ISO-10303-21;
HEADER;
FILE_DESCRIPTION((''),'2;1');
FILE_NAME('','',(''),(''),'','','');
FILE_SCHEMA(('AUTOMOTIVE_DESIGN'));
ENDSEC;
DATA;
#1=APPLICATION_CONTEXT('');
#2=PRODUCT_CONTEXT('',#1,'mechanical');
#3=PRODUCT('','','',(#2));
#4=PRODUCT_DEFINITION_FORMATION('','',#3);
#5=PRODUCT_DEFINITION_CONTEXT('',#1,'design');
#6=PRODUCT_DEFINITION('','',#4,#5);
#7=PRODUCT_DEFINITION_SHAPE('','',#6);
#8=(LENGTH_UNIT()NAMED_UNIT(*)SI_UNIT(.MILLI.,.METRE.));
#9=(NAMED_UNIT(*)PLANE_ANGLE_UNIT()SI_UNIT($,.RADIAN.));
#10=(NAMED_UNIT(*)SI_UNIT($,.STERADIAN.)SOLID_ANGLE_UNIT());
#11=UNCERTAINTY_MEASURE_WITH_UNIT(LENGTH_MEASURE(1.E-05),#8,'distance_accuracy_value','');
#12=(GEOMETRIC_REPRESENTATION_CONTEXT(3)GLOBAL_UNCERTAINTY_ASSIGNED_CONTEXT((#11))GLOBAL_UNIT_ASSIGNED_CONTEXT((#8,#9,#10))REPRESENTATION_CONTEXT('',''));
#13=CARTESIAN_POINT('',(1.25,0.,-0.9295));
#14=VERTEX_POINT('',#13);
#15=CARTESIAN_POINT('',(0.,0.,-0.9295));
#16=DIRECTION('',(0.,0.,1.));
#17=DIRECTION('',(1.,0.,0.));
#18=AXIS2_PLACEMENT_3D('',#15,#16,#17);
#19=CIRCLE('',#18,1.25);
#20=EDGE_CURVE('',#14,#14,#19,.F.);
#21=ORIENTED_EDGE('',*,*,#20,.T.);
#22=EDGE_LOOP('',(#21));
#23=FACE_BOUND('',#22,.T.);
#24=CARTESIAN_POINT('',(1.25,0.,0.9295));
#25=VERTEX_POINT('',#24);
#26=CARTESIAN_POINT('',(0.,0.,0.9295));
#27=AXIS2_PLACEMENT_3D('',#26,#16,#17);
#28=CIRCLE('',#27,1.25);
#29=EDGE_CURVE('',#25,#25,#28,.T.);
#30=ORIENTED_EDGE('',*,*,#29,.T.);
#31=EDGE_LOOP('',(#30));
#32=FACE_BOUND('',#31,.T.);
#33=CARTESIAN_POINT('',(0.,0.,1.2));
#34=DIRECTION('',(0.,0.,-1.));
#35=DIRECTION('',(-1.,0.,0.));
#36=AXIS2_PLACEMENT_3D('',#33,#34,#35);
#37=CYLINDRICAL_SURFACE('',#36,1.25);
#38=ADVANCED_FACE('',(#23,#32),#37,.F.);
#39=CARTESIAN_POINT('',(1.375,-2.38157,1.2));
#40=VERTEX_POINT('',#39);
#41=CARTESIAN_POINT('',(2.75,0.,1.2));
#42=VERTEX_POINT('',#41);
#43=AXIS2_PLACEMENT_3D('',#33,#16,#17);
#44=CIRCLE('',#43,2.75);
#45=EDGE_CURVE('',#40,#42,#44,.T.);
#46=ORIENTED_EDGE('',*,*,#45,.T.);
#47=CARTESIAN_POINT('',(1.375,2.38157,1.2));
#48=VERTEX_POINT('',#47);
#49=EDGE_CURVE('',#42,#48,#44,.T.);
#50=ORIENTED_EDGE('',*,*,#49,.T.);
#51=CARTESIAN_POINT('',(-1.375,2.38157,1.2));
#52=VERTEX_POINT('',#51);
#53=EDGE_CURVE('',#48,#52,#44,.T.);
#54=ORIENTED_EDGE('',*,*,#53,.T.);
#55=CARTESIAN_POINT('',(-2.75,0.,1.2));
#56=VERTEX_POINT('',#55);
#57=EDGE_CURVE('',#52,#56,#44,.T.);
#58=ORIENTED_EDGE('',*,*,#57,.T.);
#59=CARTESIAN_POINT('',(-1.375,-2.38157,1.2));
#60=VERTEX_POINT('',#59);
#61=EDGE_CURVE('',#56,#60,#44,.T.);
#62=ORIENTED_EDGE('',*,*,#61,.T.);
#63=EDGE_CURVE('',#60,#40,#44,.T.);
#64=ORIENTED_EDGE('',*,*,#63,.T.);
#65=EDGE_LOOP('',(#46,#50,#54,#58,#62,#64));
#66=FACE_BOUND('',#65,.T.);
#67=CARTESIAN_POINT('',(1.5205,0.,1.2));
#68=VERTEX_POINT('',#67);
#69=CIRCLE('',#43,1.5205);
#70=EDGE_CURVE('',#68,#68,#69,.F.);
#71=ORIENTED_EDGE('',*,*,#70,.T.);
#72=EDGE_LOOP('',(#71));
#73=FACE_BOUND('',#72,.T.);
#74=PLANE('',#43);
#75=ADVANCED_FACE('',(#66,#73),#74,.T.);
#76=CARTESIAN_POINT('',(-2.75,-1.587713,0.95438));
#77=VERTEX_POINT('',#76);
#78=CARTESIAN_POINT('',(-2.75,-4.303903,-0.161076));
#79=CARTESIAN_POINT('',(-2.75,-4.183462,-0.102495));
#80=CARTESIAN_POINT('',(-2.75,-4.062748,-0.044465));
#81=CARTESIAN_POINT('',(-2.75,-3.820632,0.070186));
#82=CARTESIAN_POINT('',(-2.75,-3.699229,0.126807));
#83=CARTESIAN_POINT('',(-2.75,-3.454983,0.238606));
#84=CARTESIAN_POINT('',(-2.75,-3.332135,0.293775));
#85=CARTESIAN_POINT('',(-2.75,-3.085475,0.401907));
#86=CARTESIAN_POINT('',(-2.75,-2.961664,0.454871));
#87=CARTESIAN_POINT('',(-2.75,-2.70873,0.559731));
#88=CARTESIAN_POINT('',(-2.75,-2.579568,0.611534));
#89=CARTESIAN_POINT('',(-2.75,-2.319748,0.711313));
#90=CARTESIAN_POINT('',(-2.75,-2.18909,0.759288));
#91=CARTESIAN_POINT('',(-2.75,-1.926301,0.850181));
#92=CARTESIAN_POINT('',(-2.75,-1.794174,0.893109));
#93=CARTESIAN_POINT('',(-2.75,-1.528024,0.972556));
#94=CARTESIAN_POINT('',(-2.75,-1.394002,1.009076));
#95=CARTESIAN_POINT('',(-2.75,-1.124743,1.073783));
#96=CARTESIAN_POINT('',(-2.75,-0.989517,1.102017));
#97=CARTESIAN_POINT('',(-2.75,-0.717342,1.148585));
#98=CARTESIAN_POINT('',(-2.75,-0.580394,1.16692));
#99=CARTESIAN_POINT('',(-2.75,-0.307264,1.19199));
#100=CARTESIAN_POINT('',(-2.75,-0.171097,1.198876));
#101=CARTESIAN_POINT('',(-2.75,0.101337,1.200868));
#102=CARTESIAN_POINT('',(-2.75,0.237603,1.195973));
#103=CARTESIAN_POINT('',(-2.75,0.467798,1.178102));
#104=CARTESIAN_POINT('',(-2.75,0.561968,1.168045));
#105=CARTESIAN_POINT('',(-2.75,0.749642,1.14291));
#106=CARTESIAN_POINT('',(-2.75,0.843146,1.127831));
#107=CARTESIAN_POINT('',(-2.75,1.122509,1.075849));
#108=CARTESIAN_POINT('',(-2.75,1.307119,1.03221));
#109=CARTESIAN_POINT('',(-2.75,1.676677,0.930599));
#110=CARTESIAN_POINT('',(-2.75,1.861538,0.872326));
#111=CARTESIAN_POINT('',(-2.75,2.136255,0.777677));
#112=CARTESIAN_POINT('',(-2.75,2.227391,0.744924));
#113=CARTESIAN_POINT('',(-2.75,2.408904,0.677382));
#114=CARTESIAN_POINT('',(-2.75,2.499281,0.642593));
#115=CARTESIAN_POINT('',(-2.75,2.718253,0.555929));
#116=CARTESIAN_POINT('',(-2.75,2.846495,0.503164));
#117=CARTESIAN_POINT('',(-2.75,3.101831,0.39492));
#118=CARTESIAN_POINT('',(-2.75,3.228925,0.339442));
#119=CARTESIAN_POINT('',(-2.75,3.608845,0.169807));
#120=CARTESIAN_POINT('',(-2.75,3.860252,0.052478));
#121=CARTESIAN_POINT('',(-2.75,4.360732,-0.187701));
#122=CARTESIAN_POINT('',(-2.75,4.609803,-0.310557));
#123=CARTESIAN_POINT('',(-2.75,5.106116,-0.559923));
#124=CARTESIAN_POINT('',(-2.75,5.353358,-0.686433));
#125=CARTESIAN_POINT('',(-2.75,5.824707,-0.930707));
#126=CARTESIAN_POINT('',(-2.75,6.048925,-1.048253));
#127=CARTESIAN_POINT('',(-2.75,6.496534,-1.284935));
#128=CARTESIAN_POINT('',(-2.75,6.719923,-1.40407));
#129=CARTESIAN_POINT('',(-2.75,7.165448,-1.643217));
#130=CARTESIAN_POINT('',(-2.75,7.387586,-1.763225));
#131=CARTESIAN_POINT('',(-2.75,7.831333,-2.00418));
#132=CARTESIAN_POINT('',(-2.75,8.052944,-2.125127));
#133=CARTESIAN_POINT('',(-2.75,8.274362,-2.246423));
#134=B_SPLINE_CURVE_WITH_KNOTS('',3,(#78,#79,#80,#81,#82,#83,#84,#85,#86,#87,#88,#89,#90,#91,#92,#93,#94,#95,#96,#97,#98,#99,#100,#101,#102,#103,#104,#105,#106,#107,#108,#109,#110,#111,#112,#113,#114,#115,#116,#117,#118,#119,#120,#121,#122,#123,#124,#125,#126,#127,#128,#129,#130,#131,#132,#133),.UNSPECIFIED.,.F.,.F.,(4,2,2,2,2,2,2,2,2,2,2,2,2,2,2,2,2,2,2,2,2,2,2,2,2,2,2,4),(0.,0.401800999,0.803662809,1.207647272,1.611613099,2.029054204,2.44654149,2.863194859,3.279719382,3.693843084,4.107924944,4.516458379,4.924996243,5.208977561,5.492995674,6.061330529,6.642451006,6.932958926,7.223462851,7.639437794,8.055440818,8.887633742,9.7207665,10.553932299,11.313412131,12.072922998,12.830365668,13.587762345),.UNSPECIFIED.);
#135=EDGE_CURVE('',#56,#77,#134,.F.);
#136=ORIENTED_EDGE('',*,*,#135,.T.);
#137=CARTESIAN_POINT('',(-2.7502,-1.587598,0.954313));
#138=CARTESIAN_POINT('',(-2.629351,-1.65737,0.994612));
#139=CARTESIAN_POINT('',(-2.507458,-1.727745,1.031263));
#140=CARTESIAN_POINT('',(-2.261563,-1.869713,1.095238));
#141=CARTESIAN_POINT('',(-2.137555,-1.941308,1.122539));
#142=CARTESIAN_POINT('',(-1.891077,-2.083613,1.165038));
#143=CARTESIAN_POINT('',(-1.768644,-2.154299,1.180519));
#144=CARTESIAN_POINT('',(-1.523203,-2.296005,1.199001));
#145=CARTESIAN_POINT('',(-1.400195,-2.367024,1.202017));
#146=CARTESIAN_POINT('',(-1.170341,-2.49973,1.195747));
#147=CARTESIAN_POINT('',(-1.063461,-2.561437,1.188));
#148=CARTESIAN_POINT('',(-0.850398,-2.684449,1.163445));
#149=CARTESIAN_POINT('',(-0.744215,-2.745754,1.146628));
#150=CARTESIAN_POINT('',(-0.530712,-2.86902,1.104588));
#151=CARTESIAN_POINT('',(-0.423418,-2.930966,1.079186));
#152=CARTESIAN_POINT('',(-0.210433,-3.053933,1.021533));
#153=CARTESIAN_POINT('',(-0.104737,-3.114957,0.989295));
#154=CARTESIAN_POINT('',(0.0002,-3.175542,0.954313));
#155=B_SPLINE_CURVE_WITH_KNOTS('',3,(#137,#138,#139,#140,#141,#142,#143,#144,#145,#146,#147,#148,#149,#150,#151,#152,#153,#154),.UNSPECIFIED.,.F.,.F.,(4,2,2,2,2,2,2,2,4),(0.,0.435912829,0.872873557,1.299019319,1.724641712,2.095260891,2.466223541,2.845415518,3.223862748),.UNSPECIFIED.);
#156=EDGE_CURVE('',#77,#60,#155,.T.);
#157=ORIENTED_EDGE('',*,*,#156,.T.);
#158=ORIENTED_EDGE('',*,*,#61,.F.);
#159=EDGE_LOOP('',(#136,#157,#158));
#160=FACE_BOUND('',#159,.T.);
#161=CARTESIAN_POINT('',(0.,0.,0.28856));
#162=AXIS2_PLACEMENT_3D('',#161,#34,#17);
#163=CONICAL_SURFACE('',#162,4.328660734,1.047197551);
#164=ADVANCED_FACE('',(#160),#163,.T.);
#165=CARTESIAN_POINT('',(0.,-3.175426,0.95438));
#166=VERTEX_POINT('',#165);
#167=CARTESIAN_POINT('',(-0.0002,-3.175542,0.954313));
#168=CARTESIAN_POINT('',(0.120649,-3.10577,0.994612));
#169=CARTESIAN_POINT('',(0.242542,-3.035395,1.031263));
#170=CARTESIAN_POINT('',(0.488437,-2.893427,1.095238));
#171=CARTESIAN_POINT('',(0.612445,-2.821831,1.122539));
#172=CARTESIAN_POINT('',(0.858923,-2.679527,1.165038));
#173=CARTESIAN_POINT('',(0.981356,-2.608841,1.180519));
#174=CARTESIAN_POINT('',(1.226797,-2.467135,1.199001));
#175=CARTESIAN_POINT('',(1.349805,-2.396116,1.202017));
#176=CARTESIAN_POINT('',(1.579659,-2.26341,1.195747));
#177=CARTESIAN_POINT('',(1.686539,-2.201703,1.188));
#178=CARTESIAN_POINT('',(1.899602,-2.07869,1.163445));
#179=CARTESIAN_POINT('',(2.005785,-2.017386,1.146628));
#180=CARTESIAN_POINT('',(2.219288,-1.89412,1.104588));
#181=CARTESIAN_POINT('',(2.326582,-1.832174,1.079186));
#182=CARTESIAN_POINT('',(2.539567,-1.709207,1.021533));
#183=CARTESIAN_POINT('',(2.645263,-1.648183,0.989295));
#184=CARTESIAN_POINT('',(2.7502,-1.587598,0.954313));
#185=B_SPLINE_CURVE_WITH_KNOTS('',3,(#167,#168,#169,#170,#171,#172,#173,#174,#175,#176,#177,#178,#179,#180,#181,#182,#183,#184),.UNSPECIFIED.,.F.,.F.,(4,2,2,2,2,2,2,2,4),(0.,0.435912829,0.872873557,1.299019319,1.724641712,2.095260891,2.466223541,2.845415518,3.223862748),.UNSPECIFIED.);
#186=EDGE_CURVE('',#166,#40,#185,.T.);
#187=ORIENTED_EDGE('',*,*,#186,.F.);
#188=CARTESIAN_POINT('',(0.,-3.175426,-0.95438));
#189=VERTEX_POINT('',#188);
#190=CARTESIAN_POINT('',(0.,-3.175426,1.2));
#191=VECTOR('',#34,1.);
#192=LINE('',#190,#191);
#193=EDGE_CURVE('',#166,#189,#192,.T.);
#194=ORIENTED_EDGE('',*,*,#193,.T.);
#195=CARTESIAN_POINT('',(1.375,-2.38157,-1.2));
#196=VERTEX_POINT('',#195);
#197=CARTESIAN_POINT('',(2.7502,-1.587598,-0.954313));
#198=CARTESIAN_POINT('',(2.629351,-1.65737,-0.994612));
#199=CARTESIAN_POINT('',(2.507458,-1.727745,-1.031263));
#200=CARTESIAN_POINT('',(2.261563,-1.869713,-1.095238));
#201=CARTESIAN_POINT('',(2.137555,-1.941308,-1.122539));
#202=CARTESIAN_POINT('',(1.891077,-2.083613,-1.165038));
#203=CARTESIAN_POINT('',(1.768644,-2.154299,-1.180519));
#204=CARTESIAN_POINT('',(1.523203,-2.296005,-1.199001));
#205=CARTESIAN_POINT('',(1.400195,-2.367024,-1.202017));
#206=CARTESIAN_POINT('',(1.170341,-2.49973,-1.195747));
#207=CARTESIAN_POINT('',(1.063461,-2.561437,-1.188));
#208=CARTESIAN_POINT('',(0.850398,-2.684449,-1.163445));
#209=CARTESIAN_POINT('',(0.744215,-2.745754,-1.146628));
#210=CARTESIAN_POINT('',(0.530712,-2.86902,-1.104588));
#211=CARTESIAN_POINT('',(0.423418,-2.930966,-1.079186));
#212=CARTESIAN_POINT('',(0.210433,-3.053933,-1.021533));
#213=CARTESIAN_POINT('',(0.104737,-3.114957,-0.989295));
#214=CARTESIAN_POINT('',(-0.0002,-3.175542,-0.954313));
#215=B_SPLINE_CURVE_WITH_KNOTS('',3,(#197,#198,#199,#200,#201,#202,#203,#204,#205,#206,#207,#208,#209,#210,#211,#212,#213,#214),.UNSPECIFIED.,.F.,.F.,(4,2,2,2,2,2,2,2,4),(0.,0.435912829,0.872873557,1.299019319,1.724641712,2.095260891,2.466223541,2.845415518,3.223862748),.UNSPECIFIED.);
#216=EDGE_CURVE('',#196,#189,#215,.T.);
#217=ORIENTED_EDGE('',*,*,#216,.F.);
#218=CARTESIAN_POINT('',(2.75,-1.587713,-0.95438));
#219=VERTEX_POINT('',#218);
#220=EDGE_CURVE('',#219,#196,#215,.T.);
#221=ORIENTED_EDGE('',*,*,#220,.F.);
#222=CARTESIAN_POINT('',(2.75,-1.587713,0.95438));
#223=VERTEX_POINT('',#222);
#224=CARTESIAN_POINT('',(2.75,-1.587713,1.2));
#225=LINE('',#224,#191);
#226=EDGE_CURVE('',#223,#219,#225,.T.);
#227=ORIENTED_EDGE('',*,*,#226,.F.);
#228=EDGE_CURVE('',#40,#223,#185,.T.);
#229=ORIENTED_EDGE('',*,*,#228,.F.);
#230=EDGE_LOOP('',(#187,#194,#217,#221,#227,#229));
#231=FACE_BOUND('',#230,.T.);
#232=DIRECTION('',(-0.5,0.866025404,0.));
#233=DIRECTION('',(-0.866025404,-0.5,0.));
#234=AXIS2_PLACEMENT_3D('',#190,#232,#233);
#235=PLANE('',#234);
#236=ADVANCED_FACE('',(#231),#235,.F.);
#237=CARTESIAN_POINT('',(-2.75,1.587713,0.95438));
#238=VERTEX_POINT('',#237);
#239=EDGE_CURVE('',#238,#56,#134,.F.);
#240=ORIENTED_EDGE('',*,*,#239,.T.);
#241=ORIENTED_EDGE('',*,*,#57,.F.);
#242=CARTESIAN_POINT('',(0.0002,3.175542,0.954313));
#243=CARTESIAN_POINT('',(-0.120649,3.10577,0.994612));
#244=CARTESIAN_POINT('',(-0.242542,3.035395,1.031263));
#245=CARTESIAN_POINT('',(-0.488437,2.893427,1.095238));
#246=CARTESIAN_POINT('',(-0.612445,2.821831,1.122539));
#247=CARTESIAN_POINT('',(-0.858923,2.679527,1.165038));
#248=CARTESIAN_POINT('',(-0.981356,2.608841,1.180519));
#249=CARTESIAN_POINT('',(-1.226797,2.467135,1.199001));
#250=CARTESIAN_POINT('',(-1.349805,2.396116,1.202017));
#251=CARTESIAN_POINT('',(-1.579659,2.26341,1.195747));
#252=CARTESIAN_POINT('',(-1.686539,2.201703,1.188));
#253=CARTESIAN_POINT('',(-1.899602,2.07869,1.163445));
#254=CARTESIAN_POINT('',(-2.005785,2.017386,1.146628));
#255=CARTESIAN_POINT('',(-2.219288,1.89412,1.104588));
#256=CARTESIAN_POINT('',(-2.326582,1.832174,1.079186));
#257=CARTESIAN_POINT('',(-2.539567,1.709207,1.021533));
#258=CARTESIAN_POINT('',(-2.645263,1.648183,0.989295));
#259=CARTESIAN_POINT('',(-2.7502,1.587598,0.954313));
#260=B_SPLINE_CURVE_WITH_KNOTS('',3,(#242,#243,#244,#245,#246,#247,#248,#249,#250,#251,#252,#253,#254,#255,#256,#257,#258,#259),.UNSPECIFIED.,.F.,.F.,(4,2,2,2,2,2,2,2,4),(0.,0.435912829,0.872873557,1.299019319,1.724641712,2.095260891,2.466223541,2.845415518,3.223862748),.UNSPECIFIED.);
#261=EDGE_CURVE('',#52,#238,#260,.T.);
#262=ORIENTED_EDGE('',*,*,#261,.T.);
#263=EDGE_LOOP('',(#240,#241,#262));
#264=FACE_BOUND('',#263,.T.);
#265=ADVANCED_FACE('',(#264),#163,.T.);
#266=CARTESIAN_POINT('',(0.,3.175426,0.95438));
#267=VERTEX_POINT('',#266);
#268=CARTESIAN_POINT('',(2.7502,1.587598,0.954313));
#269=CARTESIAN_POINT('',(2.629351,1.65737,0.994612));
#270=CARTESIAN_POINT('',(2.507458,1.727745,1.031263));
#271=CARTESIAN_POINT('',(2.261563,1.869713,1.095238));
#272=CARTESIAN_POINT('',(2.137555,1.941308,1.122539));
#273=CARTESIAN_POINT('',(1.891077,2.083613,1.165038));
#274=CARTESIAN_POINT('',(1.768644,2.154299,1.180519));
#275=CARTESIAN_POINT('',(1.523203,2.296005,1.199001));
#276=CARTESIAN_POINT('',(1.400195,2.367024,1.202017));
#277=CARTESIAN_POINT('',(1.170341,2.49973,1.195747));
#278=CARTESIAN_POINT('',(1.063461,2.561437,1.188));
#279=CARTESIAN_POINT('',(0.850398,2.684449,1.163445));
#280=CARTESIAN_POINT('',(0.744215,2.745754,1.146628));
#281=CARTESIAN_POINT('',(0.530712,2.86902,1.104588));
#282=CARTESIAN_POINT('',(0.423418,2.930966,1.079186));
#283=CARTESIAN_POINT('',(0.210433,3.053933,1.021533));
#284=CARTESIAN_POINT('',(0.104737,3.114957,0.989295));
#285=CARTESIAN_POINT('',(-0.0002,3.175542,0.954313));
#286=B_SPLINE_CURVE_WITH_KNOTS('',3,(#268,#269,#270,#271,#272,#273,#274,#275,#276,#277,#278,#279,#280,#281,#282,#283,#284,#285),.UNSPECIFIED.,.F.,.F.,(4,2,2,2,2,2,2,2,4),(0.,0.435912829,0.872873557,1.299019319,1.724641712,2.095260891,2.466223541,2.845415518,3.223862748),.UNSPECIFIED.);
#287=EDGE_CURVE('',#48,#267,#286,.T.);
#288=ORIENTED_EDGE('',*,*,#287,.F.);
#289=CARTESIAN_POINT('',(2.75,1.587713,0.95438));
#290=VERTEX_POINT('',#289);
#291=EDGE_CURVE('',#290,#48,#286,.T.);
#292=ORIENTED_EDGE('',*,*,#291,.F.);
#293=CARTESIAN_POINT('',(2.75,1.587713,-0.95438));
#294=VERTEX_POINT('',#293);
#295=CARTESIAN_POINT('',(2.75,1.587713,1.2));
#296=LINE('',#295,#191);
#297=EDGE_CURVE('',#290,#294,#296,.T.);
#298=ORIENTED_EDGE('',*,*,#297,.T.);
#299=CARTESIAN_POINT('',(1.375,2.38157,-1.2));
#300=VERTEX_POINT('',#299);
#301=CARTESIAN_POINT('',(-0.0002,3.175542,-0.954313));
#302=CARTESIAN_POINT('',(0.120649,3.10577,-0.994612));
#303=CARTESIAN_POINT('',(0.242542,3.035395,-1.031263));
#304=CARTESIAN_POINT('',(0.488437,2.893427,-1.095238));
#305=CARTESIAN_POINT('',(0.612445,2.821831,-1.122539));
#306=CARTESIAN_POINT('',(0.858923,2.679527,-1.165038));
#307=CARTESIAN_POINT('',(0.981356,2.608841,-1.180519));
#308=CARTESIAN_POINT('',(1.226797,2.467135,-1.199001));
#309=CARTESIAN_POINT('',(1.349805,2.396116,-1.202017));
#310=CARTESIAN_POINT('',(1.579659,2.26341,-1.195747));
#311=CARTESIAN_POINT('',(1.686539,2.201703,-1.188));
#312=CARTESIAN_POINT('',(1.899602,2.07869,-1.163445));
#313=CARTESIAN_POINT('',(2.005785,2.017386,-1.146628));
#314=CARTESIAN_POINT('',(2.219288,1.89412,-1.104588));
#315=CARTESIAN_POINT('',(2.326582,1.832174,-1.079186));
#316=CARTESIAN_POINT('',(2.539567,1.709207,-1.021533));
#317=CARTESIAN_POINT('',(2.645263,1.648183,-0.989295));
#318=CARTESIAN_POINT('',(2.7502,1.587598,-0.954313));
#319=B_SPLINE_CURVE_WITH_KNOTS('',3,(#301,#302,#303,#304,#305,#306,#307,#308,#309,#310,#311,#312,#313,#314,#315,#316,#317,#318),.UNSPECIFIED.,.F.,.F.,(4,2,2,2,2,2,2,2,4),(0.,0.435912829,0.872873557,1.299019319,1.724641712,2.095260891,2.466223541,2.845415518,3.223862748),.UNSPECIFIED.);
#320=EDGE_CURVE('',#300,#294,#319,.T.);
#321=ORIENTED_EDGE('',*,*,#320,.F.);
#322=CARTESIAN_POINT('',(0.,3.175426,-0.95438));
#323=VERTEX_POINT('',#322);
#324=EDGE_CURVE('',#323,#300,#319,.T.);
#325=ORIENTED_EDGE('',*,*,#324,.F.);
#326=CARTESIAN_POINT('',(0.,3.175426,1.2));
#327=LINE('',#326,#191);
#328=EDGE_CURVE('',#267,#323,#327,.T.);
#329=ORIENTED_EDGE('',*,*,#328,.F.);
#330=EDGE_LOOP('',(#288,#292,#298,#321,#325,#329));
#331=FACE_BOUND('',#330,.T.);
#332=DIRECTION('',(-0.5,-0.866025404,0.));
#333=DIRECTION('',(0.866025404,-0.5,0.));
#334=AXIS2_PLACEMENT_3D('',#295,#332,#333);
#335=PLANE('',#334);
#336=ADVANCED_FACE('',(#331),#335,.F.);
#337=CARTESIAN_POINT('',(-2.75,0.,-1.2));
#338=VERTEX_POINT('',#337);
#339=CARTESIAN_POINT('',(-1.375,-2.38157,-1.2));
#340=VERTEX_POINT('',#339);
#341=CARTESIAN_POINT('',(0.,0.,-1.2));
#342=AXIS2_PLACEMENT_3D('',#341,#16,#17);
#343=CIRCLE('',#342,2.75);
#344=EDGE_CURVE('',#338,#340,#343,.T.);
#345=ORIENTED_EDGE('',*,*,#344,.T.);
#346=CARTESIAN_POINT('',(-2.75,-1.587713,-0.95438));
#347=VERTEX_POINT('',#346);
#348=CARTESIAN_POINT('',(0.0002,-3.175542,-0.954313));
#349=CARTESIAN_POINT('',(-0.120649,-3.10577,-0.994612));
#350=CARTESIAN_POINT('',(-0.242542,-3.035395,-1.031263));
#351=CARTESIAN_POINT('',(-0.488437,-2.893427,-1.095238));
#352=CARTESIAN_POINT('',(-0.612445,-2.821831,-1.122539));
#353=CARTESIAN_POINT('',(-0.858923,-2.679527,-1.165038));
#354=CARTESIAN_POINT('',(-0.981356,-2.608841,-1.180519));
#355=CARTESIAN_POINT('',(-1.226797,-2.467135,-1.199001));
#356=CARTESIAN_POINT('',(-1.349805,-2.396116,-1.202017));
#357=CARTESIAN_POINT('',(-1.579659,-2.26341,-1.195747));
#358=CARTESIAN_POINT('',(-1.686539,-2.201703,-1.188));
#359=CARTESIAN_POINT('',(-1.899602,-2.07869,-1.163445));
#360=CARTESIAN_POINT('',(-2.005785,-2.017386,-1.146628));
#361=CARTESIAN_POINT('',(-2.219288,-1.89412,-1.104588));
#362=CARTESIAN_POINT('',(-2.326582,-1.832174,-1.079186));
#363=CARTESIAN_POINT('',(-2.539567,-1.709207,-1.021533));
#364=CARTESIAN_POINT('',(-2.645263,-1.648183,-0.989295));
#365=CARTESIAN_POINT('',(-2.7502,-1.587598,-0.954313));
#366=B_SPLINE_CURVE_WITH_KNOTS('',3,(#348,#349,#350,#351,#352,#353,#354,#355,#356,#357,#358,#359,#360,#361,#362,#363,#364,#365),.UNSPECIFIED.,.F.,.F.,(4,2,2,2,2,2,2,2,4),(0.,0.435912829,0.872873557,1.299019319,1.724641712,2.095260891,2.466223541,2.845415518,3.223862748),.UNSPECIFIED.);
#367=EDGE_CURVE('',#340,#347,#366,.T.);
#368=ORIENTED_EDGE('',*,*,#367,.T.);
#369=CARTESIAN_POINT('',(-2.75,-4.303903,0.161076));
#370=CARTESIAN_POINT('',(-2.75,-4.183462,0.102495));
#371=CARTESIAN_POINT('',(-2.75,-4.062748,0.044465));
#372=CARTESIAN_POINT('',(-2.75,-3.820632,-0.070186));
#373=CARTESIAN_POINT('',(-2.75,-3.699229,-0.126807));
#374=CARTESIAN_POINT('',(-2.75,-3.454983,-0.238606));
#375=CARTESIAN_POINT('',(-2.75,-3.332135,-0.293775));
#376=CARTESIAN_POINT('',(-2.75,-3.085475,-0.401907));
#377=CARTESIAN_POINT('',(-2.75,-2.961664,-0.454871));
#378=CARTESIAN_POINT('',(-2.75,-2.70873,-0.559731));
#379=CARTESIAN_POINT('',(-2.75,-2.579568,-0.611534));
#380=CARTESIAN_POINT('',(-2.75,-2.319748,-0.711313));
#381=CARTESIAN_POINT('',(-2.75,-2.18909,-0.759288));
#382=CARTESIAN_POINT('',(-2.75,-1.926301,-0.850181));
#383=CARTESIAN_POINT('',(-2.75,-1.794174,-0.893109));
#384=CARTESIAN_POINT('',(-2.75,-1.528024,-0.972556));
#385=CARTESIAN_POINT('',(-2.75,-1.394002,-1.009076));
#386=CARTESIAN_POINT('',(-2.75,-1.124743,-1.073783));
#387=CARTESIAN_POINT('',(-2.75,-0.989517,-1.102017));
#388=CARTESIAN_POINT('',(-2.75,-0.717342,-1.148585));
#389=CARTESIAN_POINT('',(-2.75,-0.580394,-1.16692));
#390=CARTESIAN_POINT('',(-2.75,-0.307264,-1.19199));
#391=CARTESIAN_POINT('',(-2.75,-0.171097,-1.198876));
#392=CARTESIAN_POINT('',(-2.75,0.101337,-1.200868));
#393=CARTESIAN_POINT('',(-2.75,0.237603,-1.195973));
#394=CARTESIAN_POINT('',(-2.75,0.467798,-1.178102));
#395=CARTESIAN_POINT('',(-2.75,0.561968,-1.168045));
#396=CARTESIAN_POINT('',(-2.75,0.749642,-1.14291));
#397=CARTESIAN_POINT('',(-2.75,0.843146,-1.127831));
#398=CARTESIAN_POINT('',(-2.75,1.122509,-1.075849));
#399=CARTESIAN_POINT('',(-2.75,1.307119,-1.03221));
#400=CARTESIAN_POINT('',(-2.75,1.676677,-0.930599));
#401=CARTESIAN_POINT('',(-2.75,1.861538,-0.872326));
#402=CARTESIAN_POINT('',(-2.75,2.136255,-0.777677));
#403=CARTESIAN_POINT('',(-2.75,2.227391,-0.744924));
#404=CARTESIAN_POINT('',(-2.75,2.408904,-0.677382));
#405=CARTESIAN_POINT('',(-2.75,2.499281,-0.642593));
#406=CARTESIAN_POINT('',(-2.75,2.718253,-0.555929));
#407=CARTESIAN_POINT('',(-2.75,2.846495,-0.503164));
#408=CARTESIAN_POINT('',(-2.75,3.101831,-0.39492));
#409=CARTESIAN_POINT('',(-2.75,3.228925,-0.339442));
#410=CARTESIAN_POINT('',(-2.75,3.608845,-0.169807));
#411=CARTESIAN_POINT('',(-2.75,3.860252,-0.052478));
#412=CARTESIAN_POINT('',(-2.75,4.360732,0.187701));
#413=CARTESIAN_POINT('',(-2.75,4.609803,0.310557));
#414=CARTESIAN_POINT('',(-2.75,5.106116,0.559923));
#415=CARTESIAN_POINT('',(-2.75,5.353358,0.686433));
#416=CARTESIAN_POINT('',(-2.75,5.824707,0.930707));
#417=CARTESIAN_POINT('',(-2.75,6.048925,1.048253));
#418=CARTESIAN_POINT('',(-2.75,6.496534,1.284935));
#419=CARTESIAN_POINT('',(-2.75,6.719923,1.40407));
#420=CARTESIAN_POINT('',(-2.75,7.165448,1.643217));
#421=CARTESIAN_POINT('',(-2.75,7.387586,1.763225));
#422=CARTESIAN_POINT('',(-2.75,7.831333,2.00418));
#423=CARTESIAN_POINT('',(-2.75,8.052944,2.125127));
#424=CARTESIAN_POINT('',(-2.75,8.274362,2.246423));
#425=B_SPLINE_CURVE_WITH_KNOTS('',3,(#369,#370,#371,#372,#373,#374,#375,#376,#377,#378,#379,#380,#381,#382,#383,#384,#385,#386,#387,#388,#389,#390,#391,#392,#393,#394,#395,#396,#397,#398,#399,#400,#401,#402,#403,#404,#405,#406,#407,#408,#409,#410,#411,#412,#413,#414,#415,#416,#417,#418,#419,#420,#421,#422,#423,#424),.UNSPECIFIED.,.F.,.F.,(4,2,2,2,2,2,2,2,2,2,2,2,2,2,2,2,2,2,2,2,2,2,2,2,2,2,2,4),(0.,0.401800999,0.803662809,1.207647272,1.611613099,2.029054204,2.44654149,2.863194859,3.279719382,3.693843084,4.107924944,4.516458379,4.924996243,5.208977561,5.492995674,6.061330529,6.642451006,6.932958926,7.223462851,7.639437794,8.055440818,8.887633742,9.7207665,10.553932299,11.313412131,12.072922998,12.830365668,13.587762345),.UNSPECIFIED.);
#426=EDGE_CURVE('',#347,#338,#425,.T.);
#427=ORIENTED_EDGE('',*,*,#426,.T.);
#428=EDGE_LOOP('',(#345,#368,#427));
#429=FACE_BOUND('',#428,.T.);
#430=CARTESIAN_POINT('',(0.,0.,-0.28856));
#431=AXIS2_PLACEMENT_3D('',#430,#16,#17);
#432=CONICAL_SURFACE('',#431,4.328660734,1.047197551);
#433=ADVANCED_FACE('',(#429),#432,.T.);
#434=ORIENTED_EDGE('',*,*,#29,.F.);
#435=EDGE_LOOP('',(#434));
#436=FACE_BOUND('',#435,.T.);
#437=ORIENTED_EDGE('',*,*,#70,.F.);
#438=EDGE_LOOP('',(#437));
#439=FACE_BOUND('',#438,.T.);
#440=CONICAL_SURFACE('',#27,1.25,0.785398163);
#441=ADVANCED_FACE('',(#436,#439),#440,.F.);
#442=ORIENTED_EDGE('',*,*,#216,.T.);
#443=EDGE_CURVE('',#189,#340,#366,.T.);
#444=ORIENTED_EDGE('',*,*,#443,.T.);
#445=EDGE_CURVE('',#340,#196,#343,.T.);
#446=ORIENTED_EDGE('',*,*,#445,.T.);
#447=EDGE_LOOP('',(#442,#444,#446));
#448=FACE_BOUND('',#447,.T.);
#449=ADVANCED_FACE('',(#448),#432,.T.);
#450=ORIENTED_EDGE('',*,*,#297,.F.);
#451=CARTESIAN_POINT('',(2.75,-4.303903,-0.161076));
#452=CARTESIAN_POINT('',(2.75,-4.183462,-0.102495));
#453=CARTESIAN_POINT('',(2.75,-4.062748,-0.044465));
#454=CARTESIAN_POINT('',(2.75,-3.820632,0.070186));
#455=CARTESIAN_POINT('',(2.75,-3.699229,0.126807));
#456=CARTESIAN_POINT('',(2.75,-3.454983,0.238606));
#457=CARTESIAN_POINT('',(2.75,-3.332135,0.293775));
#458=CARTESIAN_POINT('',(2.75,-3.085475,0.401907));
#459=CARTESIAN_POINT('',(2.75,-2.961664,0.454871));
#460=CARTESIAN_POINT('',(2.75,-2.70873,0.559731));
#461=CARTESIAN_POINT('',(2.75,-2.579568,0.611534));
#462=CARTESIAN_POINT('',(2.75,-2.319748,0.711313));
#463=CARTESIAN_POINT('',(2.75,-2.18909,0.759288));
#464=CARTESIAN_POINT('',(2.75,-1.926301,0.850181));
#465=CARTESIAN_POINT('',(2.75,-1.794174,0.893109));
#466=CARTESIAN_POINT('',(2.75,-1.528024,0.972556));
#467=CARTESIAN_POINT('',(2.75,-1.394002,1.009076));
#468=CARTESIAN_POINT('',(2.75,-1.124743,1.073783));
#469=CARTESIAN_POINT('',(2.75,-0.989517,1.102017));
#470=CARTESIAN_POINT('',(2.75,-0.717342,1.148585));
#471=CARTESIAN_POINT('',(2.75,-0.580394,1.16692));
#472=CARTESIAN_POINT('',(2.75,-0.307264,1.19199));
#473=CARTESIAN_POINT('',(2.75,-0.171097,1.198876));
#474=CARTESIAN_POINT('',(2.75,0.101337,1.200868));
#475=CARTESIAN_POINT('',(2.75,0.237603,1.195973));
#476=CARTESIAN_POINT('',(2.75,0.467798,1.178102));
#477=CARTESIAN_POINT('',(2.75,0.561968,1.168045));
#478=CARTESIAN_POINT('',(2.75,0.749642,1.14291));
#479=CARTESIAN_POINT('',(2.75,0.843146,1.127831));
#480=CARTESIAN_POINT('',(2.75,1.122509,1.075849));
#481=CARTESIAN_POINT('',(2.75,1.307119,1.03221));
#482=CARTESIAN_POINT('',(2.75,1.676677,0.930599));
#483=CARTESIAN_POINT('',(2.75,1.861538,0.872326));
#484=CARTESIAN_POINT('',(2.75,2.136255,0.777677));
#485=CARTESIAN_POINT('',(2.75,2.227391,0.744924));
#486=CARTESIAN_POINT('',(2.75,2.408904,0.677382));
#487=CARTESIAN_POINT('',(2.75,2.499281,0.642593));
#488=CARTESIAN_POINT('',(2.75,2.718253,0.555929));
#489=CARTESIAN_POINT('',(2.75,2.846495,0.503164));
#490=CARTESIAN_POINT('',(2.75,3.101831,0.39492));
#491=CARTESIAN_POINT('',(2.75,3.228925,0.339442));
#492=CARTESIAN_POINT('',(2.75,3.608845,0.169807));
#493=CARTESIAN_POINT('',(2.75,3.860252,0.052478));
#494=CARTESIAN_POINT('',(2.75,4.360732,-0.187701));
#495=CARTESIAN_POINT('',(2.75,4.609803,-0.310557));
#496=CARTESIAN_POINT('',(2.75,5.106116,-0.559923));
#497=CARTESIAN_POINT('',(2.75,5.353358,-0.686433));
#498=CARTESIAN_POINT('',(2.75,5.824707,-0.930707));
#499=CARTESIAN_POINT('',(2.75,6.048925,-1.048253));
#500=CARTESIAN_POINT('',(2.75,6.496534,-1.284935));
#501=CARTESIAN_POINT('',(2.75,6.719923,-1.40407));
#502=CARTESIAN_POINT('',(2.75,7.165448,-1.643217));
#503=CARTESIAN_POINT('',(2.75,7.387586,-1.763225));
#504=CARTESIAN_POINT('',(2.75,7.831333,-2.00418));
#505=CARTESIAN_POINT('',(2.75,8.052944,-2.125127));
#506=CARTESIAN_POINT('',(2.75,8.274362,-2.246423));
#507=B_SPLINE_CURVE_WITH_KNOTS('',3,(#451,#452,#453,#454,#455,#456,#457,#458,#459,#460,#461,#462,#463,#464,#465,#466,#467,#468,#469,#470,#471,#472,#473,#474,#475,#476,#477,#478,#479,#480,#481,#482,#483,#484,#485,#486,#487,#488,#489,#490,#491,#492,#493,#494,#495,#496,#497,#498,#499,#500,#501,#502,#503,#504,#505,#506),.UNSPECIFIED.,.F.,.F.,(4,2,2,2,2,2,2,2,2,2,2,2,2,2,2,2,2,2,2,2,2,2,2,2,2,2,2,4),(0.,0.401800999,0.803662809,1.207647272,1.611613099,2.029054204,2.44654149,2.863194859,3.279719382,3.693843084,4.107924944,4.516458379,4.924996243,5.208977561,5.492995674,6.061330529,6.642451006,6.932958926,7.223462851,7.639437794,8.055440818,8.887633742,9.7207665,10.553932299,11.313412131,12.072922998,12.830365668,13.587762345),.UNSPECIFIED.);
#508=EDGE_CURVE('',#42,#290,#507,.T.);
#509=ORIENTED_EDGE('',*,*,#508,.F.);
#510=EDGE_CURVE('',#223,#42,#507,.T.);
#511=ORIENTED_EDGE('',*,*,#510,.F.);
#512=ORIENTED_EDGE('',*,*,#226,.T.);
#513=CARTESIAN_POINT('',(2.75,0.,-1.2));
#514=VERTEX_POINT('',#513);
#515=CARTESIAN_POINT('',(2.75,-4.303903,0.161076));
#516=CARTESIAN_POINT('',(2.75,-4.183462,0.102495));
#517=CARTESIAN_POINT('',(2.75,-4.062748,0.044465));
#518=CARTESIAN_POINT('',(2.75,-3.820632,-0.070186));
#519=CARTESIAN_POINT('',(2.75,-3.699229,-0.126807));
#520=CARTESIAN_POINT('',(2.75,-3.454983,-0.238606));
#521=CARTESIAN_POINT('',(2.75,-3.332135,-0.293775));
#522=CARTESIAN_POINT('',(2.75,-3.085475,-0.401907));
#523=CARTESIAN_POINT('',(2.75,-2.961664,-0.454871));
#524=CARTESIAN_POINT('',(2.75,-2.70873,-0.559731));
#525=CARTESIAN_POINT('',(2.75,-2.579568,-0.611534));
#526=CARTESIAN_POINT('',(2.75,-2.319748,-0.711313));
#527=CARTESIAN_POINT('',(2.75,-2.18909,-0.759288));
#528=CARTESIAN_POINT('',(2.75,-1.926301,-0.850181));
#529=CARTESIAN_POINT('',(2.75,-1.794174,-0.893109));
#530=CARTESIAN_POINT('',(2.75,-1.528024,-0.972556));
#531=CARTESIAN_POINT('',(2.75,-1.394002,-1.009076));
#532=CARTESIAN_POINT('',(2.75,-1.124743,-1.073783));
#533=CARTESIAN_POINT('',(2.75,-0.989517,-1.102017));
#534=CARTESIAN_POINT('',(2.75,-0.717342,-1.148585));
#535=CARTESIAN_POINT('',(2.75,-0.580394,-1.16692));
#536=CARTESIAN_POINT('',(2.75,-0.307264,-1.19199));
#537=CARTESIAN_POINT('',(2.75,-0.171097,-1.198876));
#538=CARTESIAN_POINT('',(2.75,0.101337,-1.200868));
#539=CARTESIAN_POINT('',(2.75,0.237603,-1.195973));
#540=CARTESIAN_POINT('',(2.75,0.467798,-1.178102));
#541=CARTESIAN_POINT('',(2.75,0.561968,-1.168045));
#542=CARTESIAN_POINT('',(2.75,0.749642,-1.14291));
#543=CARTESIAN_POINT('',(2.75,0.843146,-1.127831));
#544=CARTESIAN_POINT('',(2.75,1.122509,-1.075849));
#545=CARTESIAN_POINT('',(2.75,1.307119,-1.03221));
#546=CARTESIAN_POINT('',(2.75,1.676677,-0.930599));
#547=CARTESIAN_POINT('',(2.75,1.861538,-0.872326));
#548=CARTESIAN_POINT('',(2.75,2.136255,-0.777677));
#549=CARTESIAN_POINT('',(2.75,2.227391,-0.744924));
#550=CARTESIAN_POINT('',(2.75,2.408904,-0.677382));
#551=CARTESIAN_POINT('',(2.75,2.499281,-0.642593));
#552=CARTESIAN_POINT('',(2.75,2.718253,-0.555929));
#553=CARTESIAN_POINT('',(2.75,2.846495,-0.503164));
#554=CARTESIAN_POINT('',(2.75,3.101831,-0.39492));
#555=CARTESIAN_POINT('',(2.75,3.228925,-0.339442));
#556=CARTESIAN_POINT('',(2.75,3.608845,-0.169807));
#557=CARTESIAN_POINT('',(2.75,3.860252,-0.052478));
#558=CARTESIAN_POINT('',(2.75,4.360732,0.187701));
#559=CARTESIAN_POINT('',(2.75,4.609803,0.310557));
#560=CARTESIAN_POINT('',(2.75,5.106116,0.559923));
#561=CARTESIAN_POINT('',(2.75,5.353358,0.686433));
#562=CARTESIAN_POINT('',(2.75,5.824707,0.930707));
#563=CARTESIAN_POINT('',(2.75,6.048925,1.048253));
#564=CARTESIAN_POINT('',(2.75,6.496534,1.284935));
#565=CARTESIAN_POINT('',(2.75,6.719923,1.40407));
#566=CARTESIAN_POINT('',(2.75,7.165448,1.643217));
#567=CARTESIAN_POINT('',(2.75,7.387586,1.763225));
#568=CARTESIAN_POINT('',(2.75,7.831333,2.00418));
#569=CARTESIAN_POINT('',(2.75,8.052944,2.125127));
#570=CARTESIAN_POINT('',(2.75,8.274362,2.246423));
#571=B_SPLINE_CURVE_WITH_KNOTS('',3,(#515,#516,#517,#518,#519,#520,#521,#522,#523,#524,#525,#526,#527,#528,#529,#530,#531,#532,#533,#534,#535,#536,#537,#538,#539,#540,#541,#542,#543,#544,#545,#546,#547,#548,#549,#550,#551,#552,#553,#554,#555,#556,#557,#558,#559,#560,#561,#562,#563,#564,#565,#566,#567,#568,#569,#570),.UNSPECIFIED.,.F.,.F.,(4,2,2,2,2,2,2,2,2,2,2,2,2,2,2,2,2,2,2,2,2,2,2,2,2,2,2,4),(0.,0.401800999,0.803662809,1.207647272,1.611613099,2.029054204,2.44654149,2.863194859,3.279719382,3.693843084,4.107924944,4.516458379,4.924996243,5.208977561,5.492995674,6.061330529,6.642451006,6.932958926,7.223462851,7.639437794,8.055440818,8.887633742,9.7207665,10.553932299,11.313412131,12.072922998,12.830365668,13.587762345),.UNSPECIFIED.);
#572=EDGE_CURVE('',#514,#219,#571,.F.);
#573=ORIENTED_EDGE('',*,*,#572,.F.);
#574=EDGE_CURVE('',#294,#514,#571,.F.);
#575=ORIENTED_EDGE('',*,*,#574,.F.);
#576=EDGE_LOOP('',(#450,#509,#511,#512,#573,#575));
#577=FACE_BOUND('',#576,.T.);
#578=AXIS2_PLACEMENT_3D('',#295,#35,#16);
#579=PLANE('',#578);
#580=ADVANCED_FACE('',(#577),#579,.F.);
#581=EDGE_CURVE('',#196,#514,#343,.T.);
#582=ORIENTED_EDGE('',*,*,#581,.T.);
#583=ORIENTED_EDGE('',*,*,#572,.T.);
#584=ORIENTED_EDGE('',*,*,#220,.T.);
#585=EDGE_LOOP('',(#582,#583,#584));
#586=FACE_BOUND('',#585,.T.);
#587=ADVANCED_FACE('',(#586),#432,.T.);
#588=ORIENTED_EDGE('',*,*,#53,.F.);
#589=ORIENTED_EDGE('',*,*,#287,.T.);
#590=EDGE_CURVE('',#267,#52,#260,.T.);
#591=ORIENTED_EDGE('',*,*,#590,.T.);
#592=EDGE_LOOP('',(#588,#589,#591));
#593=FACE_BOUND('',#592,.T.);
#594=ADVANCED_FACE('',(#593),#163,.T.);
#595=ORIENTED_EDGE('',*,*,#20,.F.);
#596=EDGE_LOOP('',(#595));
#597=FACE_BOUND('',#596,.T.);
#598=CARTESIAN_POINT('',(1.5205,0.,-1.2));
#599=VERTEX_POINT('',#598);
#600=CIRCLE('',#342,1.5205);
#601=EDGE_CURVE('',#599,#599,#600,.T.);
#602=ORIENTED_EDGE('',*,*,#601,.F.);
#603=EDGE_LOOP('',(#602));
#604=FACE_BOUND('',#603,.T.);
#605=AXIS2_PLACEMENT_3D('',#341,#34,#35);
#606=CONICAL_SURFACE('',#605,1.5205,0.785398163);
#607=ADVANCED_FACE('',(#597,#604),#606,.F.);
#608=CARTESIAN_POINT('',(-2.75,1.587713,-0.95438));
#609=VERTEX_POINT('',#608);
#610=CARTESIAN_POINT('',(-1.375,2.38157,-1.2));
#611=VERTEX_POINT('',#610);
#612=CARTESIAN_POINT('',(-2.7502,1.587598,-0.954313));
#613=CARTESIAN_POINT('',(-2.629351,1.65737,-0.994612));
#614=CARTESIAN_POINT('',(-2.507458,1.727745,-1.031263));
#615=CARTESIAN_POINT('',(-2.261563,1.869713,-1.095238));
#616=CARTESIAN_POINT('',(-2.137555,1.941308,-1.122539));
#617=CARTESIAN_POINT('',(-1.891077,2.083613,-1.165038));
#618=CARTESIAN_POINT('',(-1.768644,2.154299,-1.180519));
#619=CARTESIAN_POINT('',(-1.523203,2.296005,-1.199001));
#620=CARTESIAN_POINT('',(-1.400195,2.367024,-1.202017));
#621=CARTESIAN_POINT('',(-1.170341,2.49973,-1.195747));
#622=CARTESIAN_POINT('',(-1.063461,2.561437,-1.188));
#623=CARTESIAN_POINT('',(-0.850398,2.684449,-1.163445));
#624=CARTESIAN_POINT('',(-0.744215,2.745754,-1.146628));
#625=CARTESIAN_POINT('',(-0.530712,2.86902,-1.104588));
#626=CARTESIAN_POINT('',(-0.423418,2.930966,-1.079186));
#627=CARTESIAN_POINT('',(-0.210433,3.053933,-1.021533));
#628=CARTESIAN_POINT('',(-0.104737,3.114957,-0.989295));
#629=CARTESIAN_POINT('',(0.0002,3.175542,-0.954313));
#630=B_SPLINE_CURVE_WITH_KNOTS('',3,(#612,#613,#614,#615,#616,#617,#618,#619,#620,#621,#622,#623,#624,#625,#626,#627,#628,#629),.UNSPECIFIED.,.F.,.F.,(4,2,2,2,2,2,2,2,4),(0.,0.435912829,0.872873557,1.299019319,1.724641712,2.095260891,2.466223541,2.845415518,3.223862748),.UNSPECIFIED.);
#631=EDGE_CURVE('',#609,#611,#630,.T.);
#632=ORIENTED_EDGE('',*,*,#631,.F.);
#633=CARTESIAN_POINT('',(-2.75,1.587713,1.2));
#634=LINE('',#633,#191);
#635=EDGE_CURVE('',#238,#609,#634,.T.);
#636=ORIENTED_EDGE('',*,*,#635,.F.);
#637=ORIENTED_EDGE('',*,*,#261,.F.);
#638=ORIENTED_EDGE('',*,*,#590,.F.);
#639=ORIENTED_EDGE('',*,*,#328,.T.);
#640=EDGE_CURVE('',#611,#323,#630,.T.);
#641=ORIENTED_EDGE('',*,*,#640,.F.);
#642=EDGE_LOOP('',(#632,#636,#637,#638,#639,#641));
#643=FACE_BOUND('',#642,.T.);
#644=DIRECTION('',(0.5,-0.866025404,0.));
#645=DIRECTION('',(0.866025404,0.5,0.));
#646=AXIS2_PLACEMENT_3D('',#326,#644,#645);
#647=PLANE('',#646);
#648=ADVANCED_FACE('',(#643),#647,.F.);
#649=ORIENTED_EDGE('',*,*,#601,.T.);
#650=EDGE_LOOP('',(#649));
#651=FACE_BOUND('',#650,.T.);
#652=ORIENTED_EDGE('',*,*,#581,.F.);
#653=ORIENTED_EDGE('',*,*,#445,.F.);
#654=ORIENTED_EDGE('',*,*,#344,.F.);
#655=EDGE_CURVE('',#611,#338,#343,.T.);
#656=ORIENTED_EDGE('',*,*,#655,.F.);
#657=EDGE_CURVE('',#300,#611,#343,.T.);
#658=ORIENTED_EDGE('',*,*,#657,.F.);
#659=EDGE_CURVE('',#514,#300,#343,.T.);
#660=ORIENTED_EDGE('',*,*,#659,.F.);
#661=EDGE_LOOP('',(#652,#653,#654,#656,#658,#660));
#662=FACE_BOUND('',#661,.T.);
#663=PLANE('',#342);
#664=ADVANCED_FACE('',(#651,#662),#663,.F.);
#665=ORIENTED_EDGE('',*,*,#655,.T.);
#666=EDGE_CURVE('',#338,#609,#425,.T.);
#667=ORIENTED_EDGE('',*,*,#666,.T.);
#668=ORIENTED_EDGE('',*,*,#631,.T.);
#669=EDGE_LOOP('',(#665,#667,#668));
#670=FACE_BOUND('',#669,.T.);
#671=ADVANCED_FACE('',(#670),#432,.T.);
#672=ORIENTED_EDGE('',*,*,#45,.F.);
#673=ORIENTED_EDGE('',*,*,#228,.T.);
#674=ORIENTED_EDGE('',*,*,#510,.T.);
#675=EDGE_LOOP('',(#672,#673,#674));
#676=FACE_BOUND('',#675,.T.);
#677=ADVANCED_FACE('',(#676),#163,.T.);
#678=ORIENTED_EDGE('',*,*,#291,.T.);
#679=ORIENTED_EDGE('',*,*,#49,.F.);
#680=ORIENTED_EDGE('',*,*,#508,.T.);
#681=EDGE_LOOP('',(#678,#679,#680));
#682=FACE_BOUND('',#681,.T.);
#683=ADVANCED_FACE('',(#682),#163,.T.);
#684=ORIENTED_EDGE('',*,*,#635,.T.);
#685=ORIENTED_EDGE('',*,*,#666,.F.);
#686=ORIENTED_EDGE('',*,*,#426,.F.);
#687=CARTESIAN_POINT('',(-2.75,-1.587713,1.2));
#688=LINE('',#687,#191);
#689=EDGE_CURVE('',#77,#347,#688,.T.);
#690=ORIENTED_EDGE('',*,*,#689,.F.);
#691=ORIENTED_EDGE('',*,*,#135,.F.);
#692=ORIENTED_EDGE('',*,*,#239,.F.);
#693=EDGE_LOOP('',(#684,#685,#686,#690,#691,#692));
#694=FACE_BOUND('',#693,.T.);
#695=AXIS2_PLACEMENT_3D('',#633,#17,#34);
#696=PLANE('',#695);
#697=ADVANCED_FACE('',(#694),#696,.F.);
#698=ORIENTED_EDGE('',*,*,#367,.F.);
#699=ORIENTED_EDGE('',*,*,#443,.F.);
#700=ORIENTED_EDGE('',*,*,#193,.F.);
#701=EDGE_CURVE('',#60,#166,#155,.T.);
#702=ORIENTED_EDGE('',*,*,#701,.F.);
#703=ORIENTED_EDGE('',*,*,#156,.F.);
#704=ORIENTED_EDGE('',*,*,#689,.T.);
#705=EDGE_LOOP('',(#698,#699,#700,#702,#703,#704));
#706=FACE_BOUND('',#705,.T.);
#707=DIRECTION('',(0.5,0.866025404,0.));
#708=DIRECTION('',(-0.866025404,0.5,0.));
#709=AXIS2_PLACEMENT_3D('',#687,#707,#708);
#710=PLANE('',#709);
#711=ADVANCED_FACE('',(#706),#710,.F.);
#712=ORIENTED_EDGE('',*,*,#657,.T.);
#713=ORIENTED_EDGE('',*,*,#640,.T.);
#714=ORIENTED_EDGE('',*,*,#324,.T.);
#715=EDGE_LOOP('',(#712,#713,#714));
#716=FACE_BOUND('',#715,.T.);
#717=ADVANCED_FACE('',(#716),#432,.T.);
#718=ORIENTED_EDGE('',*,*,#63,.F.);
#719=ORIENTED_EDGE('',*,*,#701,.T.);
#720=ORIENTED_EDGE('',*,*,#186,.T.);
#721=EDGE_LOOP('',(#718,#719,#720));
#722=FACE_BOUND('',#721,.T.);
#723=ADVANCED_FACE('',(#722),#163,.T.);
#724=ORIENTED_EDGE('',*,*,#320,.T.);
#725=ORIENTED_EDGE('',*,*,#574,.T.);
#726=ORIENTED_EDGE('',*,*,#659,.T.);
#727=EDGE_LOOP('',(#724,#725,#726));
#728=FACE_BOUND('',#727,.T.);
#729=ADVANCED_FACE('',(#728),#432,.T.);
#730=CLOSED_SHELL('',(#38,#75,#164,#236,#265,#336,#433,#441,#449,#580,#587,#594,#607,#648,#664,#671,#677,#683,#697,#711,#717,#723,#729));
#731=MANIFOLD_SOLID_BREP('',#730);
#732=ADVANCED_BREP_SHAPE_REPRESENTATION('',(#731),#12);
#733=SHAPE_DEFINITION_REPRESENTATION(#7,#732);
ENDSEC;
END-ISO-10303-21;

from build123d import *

# Parameters (mm, degrees)
SKETCH2_R           = 1.25
BOSS_EXTRUDE1_DEPTH = 1.2
CHAMFER1_SIZE       = 0.2705


with BuildPart() as part:
    # Sketch2 → Boss-Extrude1 (new body, symmetric)
    with BuildSketch(Plane.XY):
        Polygon((2.75, 1.58771324), (2.75, -1.58771324), (0, -3.175426481), (-2.75, -1.58771324), (-2.75, 1.58771324), (0, 3.175426481), align=None)
        Circle(SKETCH2_R, mode=Mode.SUBTRACT)
    extrude(amount=BOSS_EXTRUDE1_DEPTH, both=True)

    # Sketch4 → Cut-Revolve2 (revolve, cut)
    with BuildSketch(Plane(origin=(0, 0, 0), x_dir=(0, 0, -1), z_dir=(1, 0, 0))):
        Polygon((1.2, 2.75), (1.2, 4.328660734), (0.2885598, 4.328660734), align=None)
    cut_revolve2 = revolve(axis=Axis((0, 0, 2.99453507), (0, 0, -1)), mode=Mode.SUBTRACT)

    # Mirror1: Cut-Revolve2 across plane
    add(cut_revolve2.mirror(Plane.XY), mode=Mode.SUBTRACT)

    # Chamfer1
    chamfer1_edges = [part.edges().sort_by_distance(p)[0] for p in [
        (-1.25, 0, -1.2),
        (-1.25, 0, 1.2),
    ]]
    chamfer(chamfer1_edges, length=CHAMFER1_SIZE)


solid = part.part
